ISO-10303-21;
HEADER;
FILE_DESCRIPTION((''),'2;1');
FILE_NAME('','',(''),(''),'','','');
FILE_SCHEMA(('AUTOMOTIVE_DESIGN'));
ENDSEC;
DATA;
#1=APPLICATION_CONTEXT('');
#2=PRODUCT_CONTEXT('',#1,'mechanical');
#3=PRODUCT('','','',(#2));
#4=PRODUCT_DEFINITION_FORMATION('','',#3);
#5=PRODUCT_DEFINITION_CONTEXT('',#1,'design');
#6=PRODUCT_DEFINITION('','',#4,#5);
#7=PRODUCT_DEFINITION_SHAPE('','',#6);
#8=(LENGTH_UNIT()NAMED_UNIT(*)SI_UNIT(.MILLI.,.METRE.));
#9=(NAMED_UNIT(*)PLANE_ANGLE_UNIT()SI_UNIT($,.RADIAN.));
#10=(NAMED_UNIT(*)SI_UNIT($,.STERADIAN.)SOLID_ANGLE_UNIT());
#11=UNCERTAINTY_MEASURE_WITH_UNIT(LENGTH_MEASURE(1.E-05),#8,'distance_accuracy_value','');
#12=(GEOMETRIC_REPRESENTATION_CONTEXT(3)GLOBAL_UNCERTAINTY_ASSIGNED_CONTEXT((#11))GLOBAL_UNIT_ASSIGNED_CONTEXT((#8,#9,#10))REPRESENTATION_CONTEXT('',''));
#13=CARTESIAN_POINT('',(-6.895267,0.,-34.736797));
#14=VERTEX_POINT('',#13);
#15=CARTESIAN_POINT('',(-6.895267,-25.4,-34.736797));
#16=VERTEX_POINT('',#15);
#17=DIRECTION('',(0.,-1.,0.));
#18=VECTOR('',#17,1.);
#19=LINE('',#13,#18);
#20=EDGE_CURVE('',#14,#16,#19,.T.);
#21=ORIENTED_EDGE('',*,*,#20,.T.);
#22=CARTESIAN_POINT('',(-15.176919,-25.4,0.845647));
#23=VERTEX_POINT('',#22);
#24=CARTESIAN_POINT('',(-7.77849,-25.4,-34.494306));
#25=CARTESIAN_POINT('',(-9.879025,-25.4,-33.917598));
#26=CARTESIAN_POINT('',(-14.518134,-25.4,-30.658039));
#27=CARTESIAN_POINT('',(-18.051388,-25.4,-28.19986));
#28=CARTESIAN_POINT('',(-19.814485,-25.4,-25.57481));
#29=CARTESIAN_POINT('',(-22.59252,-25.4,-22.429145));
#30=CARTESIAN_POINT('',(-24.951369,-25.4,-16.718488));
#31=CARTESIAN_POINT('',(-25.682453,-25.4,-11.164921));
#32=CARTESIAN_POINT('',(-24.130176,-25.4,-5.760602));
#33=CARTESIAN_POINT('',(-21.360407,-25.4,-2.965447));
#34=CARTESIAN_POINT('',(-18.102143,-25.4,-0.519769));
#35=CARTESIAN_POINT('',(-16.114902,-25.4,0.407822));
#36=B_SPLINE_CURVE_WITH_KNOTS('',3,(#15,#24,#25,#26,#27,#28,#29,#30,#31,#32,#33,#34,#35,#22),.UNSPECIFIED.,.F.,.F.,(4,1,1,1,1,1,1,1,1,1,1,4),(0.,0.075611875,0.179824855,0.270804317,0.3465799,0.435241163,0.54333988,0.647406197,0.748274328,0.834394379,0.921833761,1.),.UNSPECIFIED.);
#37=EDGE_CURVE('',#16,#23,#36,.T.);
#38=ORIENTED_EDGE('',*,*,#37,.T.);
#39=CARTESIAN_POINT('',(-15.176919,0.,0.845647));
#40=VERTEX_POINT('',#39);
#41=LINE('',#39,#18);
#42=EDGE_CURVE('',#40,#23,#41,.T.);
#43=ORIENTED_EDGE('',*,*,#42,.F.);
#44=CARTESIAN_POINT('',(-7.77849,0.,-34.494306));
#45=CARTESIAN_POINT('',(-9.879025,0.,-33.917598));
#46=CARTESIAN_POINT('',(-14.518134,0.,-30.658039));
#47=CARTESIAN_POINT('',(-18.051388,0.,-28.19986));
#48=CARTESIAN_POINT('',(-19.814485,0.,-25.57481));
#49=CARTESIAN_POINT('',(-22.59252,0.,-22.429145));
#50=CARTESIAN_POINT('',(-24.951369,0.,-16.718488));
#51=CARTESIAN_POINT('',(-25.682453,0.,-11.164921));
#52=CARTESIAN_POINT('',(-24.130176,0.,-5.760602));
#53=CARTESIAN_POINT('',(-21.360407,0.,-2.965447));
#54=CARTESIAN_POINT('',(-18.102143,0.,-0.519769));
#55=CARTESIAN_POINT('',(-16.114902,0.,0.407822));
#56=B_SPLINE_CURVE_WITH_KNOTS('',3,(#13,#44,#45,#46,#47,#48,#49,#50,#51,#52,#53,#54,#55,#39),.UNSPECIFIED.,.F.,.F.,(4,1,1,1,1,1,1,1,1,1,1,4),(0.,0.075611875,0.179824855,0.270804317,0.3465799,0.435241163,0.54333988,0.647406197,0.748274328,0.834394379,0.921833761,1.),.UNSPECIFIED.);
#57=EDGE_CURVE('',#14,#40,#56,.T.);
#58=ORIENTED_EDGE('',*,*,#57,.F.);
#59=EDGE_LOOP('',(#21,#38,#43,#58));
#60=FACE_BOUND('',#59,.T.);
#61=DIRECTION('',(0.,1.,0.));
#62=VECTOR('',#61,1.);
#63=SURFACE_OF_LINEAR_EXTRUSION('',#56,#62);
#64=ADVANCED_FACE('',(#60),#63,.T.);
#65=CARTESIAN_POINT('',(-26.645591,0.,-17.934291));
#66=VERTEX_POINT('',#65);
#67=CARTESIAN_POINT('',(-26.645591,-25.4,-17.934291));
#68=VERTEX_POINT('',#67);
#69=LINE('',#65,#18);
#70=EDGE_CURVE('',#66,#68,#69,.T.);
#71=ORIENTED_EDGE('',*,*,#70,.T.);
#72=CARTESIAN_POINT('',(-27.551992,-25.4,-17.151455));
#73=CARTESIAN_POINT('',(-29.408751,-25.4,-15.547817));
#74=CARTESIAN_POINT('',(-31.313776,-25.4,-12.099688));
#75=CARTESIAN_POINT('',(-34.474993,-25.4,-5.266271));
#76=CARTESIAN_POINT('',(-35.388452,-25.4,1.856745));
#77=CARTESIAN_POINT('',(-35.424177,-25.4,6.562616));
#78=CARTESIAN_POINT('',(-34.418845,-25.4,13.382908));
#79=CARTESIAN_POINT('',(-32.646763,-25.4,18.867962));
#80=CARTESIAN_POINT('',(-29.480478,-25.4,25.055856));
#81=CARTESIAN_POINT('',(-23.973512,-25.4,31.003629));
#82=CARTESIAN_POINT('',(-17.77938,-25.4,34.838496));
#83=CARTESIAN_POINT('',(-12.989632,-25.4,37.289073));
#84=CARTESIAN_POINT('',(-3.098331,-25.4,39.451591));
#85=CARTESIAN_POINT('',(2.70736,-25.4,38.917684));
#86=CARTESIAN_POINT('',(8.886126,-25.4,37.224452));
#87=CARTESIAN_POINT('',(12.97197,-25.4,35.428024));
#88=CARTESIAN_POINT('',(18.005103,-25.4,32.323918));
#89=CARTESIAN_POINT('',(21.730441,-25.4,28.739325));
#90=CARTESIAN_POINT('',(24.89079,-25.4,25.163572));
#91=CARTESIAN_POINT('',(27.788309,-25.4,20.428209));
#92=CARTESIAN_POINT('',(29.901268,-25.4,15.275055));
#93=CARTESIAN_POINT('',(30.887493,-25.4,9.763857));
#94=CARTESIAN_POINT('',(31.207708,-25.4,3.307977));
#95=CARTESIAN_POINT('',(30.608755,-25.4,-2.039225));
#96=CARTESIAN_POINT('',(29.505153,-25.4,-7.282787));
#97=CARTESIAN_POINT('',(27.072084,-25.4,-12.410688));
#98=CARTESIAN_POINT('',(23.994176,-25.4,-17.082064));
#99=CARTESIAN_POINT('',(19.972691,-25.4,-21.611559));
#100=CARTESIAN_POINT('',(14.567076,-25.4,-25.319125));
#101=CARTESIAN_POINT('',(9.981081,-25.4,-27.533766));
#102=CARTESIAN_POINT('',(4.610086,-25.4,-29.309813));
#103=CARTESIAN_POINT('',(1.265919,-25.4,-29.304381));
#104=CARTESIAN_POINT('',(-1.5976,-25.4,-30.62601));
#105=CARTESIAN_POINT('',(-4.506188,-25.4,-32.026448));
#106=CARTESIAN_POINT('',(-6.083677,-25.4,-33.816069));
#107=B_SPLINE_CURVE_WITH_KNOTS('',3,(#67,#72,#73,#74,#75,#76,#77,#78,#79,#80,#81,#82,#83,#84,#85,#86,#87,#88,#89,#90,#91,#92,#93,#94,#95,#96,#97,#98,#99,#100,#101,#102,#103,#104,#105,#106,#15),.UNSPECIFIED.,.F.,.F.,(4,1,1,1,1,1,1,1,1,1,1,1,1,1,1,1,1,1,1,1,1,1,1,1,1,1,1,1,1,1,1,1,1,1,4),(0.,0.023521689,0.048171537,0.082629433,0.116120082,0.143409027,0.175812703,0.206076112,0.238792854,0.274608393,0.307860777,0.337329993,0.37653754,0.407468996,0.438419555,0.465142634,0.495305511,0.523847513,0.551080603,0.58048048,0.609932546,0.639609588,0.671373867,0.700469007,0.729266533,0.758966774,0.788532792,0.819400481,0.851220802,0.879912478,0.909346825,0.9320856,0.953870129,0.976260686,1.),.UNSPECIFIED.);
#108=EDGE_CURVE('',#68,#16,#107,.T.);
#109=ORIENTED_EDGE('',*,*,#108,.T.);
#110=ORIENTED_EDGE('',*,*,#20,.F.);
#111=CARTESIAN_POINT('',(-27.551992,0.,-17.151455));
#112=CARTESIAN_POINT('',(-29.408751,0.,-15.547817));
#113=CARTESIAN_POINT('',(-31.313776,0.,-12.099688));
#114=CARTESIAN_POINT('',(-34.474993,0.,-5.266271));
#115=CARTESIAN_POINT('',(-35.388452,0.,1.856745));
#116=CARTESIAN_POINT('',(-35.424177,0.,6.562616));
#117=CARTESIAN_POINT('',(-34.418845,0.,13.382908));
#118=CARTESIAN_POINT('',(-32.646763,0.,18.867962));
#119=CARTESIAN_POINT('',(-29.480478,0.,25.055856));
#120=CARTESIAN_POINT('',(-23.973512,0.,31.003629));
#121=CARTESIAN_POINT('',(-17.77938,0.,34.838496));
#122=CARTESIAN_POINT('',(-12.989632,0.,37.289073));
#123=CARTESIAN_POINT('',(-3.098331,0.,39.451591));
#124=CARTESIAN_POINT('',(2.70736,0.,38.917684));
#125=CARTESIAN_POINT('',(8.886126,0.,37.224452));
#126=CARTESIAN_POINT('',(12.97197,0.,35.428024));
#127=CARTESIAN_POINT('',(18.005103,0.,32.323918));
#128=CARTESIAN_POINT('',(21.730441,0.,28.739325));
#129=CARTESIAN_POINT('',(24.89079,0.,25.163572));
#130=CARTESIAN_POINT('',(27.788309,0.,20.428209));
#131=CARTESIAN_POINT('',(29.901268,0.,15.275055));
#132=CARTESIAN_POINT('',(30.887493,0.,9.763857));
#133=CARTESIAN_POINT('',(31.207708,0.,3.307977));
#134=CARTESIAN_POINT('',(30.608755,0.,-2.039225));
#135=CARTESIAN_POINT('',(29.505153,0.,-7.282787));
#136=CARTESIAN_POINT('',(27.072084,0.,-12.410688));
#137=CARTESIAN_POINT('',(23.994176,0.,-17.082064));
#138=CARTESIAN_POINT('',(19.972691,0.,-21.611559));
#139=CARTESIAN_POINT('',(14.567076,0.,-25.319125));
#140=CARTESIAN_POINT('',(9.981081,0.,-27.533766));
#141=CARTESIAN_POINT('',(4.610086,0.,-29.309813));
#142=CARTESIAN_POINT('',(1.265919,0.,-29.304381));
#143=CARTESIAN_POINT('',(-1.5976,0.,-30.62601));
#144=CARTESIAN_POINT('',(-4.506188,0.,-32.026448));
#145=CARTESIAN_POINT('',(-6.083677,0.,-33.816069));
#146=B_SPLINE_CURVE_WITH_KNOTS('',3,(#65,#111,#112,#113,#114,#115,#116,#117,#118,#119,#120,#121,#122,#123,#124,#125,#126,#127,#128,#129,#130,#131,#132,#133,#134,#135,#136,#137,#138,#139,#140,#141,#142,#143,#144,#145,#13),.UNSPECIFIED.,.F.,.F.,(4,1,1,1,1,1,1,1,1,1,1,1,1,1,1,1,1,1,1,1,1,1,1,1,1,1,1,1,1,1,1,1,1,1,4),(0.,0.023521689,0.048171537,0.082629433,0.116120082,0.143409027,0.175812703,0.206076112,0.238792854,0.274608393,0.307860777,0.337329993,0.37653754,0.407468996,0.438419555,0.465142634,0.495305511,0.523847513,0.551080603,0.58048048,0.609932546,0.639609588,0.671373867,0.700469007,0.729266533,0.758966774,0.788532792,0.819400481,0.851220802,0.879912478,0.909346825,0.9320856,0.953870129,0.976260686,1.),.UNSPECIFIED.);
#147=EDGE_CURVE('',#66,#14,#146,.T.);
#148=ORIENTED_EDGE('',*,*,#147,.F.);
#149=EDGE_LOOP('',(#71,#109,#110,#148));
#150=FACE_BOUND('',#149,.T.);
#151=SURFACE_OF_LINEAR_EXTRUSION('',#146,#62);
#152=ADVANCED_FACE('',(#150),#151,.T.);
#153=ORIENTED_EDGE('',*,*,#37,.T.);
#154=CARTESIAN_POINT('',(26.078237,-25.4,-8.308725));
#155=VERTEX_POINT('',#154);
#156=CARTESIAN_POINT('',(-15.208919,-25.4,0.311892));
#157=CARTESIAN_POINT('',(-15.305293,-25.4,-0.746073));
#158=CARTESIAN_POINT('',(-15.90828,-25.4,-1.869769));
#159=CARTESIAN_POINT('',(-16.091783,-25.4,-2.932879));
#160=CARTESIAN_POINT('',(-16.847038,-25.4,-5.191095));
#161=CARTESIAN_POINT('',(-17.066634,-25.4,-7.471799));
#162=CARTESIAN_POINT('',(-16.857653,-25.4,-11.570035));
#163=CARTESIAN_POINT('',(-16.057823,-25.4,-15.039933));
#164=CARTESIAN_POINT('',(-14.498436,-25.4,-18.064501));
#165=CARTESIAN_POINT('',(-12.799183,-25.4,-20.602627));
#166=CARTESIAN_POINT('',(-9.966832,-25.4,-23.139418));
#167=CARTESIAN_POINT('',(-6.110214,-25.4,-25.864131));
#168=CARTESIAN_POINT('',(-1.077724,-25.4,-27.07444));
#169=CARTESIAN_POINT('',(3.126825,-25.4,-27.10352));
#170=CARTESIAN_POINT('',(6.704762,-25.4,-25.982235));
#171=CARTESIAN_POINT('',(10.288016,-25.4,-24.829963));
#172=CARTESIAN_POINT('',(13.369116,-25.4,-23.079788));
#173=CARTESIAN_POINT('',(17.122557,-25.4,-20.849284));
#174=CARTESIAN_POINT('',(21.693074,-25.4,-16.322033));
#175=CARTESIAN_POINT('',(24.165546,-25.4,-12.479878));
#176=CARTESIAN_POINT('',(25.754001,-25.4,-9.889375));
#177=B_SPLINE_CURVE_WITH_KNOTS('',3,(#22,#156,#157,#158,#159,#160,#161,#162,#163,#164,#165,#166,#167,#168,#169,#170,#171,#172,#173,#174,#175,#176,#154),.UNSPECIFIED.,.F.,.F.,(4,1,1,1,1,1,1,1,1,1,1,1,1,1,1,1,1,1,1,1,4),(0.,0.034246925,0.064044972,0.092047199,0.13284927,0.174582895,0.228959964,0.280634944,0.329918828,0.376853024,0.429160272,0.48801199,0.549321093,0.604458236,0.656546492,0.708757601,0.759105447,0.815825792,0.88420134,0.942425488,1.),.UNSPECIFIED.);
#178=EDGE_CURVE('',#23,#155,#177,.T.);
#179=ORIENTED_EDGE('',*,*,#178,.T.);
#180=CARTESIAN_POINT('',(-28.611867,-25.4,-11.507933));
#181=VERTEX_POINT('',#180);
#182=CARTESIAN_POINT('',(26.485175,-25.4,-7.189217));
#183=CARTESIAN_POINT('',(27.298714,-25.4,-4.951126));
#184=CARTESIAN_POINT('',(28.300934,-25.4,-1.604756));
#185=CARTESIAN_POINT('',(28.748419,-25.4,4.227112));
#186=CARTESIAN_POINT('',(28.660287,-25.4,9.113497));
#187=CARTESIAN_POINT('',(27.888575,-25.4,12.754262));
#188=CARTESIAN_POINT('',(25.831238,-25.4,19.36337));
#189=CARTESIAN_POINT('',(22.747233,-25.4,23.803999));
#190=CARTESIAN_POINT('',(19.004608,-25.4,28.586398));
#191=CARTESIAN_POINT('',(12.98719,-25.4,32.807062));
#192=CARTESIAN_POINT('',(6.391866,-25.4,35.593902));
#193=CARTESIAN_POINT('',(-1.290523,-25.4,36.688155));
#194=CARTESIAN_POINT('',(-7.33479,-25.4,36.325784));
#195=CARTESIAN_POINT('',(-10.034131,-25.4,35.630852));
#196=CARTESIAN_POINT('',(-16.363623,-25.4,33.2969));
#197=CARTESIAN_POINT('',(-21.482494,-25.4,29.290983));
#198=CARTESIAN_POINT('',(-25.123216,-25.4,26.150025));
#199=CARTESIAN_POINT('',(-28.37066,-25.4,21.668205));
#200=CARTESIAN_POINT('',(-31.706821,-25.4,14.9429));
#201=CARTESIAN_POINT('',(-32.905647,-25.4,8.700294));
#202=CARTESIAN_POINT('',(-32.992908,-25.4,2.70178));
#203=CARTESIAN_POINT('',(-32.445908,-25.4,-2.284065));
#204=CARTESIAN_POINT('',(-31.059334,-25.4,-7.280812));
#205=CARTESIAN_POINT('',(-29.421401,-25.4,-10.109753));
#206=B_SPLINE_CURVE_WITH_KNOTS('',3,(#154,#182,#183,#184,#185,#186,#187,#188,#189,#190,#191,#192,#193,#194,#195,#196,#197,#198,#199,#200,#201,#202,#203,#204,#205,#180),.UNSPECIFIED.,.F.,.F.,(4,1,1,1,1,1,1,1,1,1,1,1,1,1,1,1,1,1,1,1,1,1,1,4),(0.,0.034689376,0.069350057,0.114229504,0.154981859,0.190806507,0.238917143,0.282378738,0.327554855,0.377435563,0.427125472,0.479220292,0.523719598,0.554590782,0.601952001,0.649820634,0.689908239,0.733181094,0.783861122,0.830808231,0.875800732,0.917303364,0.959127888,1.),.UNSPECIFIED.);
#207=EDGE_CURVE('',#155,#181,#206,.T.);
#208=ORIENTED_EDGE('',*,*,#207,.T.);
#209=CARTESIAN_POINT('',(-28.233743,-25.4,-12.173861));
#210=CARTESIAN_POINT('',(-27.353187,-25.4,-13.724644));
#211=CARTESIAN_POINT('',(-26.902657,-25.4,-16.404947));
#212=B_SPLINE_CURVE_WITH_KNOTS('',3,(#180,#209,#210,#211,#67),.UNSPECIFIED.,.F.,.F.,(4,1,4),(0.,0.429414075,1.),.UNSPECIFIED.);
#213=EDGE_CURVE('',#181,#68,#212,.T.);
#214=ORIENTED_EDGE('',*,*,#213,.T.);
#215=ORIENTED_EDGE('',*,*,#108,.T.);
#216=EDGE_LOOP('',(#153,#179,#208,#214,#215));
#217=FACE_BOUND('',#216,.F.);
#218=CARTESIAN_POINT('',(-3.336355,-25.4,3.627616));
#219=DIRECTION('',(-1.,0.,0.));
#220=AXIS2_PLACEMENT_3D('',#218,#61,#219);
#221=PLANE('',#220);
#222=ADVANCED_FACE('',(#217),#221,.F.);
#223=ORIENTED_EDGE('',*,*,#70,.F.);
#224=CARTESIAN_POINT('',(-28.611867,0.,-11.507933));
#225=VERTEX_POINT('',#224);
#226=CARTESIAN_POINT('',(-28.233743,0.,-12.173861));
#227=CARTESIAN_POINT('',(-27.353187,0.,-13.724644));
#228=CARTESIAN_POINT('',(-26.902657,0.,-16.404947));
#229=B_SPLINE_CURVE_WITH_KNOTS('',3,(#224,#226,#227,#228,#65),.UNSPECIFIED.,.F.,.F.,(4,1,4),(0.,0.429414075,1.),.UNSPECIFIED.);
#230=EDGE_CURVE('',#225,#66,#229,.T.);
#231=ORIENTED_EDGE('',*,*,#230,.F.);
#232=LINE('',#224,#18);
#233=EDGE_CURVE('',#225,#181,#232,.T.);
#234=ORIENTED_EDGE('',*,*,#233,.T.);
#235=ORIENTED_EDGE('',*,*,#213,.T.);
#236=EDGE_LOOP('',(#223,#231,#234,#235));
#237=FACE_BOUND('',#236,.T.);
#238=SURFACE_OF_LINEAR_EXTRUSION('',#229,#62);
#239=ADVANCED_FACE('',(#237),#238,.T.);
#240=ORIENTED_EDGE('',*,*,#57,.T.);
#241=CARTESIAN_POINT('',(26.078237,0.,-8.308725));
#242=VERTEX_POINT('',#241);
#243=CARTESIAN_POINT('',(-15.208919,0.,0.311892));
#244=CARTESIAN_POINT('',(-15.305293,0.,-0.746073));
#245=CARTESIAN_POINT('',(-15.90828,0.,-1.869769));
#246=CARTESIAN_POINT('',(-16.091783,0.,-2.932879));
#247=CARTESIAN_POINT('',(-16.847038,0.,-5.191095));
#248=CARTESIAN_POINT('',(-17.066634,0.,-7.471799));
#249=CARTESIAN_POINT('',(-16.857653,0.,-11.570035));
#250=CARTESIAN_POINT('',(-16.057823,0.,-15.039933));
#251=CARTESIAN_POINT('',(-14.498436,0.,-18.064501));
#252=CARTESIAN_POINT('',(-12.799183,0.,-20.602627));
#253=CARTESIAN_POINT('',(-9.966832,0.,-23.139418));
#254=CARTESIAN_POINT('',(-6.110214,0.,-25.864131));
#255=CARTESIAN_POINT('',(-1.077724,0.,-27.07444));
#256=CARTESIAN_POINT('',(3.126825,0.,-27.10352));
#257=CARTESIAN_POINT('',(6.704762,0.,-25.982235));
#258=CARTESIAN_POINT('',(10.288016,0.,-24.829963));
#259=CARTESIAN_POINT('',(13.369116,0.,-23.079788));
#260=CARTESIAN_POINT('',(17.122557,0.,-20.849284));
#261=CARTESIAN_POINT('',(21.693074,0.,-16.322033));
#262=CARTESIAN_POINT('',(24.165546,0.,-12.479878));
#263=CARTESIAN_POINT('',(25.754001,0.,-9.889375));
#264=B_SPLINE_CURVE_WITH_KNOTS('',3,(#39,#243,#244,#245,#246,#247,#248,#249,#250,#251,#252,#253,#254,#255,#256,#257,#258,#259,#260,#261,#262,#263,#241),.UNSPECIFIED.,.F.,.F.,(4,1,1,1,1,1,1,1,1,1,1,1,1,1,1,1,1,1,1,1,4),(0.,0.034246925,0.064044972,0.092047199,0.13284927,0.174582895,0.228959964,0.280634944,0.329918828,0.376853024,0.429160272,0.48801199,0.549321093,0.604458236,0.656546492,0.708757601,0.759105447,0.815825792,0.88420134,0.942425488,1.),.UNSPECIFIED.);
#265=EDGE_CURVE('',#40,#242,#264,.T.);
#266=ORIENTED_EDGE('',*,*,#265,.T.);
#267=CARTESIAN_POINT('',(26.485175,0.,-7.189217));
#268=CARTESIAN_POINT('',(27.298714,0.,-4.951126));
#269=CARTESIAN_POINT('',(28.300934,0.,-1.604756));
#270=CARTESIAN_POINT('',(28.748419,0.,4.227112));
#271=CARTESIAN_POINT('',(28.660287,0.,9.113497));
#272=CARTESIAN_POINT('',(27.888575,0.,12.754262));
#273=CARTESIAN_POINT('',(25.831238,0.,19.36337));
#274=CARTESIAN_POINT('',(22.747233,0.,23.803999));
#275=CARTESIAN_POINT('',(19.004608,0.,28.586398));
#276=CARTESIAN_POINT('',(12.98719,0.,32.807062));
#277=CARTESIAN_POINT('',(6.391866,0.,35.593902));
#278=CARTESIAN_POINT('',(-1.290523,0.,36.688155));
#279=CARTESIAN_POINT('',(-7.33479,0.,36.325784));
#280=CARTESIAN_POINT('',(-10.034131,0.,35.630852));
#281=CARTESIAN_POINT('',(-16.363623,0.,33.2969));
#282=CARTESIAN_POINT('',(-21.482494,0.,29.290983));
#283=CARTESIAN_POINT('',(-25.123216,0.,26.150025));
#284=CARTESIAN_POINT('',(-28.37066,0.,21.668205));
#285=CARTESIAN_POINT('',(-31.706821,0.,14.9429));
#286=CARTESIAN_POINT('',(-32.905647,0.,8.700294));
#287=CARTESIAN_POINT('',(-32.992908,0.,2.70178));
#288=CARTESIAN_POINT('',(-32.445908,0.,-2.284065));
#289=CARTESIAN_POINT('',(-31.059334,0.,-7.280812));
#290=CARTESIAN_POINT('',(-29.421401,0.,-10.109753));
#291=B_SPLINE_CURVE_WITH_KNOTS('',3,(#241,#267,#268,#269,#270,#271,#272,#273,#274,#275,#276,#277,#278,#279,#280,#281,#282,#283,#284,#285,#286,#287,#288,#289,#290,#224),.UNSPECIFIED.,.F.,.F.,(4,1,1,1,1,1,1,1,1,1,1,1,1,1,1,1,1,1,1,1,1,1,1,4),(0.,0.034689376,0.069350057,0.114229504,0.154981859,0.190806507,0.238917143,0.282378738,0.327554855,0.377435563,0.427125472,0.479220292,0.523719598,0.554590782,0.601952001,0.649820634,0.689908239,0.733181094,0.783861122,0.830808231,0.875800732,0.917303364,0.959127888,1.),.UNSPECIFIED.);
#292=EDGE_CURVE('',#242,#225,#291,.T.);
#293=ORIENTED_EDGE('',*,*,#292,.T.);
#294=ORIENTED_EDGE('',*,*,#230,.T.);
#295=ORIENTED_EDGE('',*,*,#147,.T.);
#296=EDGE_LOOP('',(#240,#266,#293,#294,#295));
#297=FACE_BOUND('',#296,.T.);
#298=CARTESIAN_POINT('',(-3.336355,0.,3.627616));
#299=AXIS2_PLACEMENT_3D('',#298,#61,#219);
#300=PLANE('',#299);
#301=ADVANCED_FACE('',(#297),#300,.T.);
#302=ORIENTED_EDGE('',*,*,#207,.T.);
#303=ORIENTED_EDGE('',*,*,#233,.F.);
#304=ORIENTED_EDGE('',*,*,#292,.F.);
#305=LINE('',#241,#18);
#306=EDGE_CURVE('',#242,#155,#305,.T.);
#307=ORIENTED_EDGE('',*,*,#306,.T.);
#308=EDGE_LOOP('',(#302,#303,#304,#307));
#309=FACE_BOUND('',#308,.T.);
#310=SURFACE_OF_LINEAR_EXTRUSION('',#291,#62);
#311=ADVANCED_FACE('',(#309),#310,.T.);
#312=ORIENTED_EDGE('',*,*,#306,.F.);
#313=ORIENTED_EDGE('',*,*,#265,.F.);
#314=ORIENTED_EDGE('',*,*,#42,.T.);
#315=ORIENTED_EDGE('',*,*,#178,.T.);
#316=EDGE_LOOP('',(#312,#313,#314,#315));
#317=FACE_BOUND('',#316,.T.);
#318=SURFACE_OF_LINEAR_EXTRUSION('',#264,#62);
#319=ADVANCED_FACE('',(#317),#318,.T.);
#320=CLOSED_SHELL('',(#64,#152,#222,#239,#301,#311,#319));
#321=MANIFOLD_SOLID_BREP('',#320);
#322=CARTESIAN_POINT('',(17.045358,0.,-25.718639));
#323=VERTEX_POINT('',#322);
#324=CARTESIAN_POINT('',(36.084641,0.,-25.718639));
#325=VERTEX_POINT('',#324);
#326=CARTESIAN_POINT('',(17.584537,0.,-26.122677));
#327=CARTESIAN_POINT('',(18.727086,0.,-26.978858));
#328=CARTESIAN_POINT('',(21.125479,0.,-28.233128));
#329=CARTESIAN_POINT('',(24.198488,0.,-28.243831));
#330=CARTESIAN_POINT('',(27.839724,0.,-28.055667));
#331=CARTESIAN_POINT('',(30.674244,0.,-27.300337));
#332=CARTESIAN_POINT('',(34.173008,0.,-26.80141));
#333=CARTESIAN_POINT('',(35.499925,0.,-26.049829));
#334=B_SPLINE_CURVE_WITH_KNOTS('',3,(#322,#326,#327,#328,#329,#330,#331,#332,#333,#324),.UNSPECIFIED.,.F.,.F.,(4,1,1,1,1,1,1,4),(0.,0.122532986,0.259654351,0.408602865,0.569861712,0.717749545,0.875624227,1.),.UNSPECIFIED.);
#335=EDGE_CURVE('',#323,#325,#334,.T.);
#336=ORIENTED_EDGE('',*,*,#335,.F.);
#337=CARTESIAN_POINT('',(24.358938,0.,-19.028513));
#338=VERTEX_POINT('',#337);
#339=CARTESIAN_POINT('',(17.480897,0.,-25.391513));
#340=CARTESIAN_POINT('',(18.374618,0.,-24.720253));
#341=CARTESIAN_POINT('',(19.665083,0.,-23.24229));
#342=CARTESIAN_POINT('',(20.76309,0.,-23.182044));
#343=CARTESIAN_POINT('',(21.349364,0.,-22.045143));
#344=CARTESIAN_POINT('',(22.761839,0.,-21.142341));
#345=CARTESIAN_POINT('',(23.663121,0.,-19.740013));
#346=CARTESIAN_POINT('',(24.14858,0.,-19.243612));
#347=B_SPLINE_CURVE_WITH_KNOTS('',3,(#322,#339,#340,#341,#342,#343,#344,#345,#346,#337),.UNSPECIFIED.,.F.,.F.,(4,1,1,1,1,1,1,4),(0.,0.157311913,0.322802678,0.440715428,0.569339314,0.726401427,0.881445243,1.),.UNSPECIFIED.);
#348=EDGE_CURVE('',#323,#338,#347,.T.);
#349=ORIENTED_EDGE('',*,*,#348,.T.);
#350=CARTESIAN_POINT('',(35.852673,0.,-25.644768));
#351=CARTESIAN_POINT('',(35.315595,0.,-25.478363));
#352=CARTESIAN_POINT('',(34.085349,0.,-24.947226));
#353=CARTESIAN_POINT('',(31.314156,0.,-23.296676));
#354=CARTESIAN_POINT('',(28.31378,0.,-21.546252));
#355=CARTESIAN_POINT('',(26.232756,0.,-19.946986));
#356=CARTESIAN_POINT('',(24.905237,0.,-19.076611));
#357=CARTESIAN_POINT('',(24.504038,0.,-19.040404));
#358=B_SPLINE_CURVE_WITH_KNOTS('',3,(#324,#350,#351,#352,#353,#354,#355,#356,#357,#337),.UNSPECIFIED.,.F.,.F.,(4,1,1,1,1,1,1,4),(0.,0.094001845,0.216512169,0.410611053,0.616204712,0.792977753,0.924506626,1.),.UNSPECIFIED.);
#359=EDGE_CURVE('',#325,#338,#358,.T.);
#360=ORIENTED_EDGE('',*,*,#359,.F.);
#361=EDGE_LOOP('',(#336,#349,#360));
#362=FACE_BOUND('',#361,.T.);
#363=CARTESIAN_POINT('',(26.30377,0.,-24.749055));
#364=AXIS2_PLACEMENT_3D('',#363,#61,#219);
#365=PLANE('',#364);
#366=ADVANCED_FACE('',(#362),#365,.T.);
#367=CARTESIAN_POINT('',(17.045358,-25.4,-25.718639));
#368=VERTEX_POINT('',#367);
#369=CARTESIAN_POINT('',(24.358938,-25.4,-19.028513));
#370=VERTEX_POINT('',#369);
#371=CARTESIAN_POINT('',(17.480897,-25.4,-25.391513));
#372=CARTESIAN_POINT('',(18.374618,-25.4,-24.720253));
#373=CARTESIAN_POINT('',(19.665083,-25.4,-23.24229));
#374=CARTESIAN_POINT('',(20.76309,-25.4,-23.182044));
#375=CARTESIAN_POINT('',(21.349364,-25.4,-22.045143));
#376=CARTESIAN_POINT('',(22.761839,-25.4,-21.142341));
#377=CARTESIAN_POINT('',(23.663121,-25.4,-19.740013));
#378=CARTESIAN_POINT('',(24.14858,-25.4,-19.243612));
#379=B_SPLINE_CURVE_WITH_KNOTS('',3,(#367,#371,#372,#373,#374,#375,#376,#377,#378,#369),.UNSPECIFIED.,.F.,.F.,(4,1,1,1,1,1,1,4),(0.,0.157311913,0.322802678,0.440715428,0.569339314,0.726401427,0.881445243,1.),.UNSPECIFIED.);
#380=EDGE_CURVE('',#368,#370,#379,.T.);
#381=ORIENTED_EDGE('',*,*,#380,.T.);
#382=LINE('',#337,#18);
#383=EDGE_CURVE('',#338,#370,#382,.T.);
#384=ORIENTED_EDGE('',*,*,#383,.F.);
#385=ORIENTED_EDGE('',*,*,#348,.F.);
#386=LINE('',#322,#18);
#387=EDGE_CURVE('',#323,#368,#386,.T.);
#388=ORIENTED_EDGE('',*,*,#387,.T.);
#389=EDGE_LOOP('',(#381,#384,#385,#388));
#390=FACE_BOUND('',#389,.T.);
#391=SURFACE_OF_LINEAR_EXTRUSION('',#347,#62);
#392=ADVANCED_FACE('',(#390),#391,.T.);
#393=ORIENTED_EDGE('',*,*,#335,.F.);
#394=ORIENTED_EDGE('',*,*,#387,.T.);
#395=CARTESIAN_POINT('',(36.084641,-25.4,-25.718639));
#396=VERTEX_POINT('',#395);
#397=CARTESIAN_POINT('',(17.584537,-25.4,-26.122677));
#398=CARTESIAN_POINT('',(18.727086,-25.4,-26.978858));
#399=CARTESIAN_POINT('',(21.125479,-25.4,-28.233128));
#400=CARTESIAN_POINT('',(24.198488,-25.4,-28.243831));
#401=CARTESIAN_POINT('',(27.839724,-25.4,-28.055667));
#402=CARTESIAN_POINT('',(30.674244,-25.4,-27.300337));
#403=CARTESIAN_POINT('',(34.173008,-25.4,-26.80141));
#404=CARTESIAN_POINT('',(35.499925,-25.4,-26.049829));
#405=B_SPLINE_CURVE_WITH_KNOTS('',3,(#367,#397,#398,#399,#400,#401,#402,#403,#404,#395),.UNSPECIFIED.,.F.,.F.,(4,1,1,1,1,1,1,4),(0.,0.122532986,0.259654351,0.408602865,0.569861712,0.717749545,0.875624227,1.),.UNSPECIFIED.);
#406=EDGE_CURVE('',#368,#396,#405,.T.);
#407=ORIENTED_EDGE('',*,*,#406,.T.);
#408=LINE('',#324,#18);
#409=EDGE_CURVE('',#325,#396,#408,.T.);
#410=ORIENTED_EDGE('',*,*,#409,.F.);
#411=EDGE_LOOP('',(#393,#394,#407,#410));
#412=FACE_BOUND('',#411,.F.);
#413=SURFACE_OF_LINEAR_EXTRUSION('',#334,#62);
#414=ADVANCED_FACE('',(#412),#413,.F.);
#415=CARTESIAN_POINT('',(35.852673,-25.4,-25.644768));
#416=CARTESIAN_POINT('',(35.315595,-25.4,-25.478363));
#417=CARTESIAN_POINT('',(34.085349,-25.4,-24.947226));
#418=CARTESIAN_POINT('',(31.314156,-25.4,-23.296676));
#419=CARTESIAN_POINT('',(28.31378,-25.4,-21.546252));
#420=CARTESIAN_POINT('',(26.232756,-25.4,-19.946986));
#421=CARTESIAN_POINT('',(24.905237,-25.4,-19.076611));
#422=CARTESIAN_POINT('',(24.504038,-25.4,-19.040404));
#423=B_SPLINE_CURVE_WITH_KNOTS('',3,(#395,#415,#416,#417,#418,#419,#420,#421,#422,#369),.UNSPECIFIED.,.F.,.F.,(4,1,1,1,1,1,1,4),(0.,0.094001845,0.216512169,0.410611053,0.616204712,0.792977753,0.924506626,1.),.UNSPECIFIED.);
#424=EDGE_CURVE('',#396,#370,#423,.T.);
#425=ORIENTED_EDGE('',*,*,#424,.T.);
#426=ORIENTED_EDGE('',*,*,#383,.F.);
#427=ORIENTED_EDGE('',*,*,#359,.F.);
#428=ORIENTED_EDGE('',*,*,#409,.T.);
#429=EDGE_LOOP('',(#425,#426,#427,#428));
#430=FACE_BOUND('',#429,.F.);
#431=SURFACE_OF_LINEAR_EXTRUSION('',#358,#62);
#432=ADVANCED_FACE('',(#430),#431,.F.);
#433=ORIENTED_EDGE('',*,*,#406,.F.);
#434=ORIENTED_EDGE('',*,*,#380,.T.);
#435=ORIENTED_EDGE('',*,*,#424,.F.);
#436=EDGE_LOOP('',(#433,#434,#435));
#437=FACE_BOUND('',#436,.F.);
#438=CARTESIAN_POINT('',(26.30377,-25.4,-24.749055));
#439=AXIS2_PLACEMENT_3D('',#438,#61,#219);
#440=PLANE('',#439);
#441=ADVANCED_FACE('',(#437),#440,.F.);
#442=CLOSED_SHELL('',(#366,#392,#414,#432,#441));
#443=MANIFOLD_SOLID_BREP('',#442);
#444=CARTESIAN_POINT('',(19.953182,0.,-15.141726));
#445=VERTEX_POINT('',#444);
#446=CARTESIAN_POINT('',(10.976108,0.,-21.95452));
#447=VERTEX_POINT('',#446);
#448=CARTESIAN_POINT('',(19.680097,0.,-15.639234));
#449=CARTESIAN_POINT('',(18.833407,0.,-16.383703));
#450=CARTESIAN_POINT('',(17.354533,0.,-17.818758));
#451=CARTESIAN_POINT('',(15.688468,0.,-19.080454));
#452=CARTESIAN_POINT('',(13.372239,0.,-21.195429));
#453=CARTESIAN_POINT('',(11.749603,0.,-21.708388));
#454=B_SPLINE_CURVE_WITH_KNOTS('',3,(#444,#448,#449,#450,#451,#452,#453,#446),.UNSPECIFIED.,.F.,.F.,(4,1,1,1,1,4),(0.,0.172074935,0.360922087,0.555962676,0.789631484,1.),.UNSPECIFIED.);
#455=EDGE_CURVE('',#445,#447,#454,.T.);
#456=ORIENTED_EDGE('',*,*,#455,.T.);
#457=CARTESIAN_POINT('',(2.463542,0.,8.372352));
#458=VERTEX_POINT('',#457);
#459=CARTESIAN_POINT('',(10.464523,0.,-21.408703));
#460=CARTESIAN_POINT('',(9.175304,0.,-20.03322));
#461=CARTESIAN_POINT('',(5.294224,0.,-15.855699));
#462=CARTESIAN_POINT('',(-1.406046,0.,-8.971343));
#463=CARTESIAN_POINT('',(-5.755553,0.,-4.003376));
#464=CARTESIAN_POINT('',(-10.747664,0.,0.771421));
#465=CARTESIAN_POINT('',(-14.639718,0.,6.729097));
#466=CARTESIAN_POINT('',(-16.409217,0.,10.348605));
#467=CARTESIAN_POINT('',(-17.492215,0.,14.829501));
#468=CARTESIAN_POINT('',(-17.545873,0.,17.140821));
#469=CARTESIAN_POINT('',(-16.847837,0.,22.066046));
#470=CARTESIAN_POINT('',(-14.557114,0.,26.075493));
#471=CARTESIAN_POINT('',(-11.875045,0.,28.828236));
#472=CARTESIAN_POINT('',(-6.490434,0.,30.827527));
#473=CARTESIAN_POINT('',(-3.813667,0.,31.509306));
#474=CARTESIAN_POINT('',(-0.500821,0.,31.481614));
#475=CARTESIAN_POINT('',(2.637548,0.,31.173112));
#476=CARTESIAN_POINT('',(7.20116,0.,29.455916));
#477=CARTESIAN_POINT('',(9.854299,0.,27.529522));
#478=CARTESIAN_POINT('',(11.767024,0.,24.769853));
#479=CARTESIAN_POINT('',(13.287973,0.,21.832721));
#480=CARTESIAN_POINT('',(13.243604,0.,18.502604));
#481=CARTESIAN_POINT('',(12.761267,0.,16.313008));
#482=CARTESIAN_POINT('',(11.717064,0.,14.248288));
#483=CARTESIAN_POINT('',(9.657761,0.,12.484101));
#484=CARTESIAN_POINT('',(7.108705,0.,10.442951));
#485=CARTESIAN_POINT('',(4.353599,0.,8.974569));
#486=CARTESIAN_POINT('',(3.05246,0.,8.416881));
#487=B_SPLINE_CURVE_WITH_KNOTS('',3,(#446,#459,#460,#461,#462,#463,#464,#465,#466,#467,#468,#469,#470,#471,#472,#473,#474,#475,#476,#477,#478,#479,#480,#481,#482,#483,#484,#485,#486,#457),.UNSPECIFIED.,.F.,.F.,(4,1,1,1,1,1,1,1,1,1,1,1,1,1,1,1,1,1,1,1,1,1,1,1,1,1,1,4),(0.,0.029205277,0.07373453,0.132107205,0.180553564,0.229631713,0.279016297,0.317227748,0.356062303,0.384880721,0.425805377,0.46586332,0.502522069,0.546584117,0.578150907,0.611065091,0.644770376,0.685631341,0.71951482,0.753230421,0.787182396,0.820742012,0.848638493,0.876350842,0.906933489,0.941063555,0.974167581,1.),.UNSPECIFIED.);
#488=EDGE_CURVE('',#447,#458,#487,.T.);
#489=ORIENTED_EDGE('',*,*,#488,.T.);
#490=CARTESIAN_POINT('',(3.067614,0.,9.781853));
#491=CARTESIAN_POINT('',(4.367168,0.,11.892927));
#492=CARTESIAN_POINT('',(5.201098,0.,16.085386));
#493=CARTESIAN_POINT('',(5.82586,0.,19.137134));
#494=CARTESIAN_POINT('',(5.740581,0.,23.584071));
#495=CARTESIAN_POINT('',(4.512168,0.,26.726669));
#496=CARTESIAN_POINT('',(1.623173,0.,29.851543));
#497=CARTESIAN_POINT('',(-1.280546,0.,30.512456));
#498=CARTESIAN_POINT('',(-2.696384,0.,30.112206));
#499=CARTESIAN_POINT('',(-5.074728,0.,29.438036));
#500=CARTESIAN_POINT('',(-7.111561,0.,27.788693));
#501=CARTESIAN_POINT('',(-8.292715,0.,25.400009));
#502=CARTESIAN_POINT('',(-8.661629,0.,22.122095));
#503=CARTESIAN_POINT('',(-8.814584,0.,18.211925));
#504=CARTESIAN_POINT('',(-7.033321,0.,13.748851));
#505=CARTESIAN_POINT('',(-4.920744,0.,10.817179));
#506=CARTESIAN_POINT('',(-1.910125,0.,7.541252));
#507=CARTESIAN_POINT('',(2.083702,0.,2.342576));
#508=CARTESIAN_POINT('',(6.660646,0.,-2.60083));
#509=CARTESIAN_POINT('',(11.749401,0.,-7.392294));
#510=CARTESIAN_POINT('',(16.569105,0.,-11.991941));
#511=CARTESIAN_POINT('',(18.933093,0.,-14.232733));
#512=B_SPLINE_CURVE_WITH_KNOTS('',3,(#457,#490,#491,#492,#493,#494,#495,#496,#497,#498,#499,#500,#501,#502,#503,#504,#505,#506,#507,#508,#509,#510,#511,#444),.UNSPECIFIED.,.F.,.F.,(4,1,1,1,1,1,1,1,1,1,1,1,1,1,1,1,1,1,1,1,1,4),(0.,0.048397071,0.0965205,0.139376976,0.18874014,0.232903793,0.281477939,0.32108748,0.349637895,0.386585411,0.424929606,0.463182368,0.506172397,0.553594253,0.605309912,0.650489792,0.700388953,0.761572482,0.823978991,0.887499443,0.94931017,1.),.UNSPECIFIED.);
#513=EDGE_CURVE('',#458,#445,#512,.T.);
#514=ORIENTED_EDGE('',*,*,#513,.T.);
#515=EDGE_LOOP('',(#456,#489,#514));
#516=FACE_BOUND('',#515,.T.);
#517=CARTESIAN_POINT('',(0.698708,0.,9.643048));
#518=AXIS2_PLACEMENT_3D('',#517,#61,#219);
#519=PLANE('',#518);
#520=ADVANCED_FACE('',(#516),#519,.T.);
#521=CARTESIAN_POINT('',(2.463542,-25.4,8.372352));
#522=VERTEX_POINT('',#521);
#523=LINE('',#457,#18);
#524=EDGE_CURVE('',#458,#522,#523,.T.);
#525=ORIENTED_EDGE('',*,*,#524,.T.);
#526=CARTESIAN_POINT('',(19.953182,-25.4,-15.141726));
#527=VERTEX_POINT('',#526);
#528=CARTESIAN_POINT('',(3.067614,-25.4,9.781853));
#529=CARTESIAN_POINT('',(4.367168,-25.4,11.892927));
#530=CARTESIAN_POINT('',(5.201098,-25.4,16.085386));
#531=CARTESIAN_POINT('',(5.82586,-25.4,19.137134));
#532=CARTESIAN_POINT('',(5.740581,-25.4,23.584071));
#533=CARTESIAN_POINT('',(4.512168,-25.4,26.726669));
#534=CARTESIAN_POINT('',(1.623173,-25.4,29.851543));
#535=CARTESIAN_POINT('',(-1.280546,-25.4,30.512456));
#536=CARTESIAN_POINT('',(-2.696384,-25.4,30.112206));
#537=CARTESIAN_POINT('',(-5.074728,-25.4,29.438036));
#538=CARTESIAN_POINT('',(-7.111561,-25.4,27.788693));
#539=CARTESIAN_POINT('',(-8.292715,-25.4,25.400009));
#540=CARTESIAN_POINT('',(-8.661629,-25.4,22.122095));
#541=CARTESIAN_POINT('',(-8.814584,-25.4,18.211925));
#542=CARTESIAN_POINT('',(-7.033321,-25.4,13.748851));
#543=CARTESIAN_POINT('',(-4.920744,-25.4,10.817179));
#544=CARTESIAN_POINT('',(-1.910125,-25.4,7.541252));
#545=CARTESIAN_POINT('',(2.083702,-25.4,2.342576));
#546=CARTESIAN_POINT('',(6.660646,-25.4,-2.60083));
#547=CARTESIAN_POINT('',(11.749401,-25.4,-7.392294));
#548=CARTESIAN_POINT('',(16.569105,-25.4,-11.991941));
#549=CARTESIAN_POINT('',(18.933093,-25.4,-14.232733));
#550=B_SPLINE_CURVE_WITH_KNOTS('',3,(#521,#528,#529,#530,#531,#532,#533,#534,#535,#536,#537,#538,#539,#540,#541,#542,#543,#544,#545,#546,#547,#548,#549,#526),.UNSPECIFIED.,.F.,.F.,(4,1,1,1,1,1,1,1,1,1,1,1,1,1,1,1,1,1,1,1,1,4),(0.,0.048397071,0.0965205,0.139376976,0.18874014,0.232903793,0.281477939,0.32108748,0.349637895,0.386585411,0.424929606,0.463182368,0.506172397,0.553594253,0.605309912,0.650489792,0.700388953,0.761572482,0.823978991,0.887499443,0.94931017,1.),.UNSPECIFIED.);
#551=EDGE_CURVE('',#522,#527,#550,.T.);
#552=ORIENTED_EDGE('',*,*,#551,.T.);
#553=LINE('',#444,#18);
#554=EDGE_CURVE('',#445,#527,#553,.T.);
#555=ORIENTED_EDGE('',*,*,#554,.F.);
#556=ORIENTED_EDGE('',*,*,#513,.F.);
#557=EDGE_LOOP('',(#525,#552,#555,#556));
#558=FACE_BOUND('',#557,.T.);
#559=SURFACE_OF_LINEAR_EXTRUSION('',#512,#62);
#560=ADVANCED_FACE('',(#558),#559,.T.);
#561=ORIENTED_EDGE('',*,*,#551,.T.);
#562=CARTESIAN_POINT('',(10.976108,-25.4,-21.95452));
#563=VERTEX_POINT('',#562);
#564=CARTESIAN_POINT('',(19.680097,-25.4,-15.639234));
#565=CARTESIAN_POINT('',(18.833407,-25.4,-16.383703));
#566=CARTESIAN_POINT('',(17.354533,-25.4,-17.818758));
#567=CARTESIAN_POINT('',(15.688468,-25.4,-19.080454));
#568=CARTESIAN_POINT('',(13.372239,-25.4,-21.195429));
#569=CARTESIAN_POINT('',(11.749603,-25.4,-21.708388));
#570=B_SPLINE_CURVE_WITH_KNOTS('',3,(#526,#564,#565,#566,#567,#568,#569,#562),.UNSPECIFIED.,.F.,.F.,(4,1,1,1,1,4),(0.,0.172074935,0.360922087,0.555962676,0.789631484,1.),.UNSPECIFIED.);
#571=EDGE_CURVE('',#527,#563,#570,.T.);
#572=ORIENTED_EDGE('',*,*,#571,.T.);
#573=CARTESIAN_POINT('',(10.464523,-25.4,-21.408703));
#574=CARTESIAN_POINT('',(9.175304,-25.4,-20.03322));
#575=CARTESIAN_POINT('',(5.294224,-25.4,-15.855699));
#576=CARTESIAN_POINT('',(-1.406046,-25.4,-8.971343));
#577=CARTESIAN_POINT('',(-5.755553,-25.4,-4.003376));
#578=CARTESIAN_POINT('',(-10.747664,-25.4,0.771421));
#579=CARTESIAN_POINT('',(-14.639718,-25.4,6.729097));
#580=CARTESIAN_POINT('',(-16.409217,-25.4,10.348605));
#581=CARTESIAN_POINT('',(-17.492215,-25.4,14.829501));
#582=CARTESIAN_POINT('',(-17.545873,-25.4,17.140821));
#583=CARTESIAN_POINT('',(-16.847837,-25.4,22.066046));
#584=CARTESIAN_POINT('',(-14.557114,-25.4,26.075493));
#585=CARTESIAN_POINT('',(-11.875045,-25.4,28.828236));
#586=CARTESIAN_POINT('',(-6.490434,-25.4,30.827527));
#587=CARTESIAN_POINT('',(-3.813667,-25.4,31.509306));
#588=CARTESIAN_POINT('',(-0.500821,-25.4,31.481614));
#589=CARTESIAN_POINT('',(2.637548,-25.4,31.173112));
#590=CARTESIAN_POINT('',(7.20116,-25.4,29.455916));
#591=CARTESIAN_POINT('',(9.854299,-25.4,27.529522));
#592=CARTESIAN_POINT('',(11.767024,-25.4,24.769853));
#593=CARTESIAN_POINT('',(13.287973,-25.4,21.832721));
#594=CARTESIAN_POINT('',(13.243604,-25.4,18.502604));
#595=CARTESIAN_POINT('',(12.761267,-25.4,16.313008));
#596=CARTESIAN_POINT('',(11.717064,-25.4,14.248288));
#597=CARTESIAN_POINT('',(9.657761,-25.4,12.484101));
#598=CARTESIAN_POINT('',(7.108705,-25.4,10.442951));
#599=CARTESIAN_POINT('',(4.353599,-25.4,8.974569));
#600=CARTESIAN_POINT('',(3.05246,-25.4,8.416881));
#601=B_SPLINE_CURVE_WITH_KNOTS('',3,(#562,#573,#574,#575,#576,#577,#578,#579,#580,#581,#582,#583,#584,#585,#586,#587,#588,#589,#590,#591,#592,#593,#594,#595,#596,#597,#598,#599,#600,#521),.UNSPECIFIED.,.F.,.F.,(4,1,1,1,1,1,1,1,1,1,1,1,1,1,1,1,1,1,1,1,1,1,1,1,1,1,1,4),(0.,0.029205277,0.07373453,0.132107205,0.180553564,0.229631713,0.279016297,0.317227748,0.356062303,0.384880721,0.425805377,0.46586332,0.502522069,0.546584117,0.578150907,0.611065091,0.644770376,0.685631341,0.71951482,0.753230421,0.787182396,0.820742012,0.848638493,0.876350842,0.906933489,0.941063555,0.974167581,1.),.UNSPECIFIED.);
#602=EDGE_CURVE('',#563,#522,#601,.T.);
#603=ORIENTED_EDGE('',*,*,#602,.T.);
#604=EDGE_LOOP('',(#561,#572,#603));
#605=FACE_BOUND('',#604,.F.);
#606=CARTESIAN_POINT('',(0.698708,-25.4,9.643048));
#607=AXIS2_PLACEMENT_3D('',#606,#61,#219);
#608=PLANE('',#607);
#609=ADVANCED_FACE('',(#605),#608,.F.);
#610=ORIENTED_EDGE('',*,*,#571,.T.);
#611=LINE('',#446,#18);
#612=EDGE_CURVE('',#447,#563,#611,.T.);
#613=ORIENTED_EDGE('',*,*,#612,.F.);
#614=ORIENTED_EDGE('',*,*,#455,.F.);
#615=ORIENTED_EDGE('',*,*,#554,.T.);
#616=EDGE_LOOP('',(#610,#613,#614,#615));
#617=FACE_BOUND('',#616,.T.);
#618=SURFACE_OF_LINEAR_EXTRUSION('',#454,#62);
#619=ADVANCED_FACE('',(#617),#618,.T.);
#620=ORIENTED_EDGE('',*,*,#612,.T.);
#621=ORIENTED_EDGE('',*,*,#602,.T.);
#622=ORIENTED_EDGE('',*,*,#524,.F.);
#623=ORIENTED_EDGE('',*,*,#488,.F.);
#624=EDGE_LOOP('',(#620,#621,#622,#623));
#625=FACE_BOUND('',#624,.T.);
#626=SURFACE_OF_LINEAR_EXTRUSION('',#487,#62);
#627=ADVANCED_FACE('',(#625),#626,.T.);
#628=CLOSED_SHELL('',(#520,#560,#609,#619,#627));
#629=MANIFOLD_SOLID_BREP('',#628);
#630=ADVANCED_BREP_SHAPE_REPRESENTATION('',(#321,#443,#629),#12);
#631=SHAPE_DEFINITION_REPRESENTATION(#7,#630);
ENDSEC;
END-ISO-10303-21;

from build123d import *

# Parameters (mm, degrees)
F1_DEPTH = 25.4


with BuildPart() as f1:
    # F0 (on Front) → F1 (new body)
    with BuildSketch(Plane.XZ):
        with BuildLine():
            add(Edge.make_bspline(
                [(2.463541925, 8.3723515272), (3.0676136923, 9.7818525501), (4.3671677442, 11.892926529), (5.2010983043, 16.0853860311), (5.8258600309, 19.1371336326), (5.7405808481, 23.5840708822), (4.5121681484, 26.7266689946), (1.6231726318, 29.851543456), (-1.2805464463, 30.5124561066), (-2.6963839092, 30.1122057702), (-5.0747281015, 29.4380363075), (-7.111561136, 27.7886927455), (-8.2927145422, 25.4000091626), (-8.6616287392, 22.1220952402), (-8.8145836433, 18.2119253345), (-7.0333206099, 13.7488508001), (-4.9207444065, 10.8171792659), (-1.9101248092, 7.5412515808), (2.0837018417, 2.342575648), (6.6606458585, -2.6008299668), (11.7494012071, -7.3922939586), (16.5691051976, -11.9919411246), (18.9330932422, -14.232733117), (19.9531819671, -15.1417255402)],
                knots=[0, 0, 0, 0, 0.0483970712, 0.0965205002, 0.1393769758, 0.1887401399, 0.2329037932, 0.2814779393, 0.3210874797, 0.3496378947, 0.3865854112, 0.4249296057, 0.4631823675, 0.5061723971, 0.5535942526, 0.6053099119, 0.6504897924, 0.7003889531, 0.7615724815, 0.823978991, 0.887499443, 0.94931017, 1, 1, 1, 1], degree=3))
            add(Edge.make_bspline(
                [(10.9761077911, -21.9545196742), (10.4645231907, -21.4087028366), (9.1753042647, -20.0332200193), (5.2942240781, -15.8556989146), (-1.4060464966, -8.9713431366), (-5.7555530447, -4.003376467), (-10.7476640453, 0.7714213829), (-14.6397176738, 6.7290972971), (-16.4092168255, 10.3486046145), (-17.4922150373, 14.8295011127), (-17.545873182, 17.1408212257), (-16.8478365477, 22.0660464051), (-14.5571142498, 26.0754930866), (-11.8750449388, 28.8282361064), (-6.4904336691, 30.8275273724), (-3.8136671733, 31.5093061965), (-0.5008207572, 31.4816141463), (2.6375481544, 31.1731122738), (7.2011599554, 29.455915854), (9.854299106, 27.5295217272), (11.7670243021, 24.7698532464), (13.2879733698, 21.8327210194), (13.2436042543, 18.5026038539), (12.7612670126, 16.3130075621), (11.7170638612, 14.2482883303), (9.6577608715, 12.4841012773), (7.1087047608, 10.4429512498), (4.3535992204, 8.9745688528), (3.0524597029, 8.4168809428), (2.463541925, 8.3723515272)],
                knots=[0, 0, 0, 0, 0.0292052771, 0.0737345302, 0.1321072053, 0.1805535636, 0.2296317133, 0.2790162974, 0.3172277484, 0.3560623028, 0.3848807211, 0.4258053771, 0.4658633198, 0.5025220686, 0.5465841165, 0.5781509071, 0.6110650914, 0.6447703763, 0.6856313406, 0.7195148196, 0.7532304215, 0.7871823964, 0.8207420119, 0.8486384926, 0.8763508424, 0.9069334892, 0.9410635546, 0.9741675812, 1, 1, 1, 1], degree=3))
            add(Edge.make_bspline(
                [(19.9531819671, -15.1417255402), (19.6800973124, -15.6392343509), (18.833406512, -16.3837025484), (17.3545333352, -17.8187579824), (15.6884676933, -19.08045354), (13.3722392663, -21.1954288519), (11.7496033439, -21.7083883466), (10.9761077911, -21.9545196742)],
                knots=[0, 0, 0, 0, 0.1720749351, 0.3609220872, 0.5559626762, 0.7896314843, 1, 1, 1, 1], degree=3))
        make_face()
    extrude(amount=F1_DEPTH)


with BuildPart() as f1b:
    # F0 (on Front) → F1, piece 2 (new body)
    with BuildSketch(Plane.XZ):
        with BuildLine():
            add(Edge.make_bspline(
                [(-15.1769192889, 0.8456473006), (-15.2089187711, 0.3118924826), (-15.3052930303, -0.7460725382), (-15.9082799257, -1.8697691827), (-16.0917826953, -2.9328788085), (-16.8470375758, -5.1910953519), (-17.0666342745, -7.4717986091), (-16.8576528208, -11.5700348184), (-16.0578233444, -15.0399326404), (-14.4984363963, -18.0645009865), (-12.7991827173, -20.6026270594), (-9.9668320644, -23.139418266), (-6.1102138645, -25.8641312637), (-1.0777243637, -27.0744401451), (3.1268249339, -27.1035201008), (6.7047618844, -25.9822351744), (10.2880164231, -24.8299630443), (13.3691161899, -23.0797876677), (17.1225572412, -20.8492841988), (21.6930736222, -16.3220326665), (24.1655460978, -12.4798782858), (25.7540009347, -9.8893749854), (26.0782372206, -8.3087254316)],
                knots=[0, 0, 0, 0, 0.0342469252, 0.064044972, 0.0920471995, 0.1328492698, 0.1745828953, 0.2289599642, 0.2806349438, 0.3299188275, 0.3768530241, 0.4291602719, 0.4880119896, 0.5493210927, 0.6044582365, 0.6565464917, 0.7087576012, 0.7591054472, 0.8158257924, 0.8842013402, 0.9424254881, 1, 1, 1, 1], degree=3))
            add(Edge.make_bspline(
                [(-6.8952674046, -34.7367972136), (-7.7784901308, -34.4943060237), (-9.8790252318, -33.9175984266), (-14.5181337397, -30.6580386371), (-18.0513883522, -28.1998595907), (-19.814484852, -25.5748098366), (-22.5925198622, -22.4291447836), (-24.9513693835, -16.7184882229), (-25.6824530003, -11.1649209272), (-24.1301755154, -5.7606024486), (-21.3604073579, -2.9654468893), (-18.1021432901, -0.519769346), (-16.1149018752, 0.4078220137), (-15.1769192889, 0.8456473006)],
                knots=[0, 0, 0, 0, 0.0756118754, 0.1798248546, 0.2708043166, 0.3465798998, 0.4352411625, 0.54333988, 0.647406197, 0.7482743276, 0.8343943795, 0.9218337606, 1, 1, 1, 1], degree=3))
            add(Edge.make_bspline(
                [(-26.6455914825, -17.9342906922), (-27.5519918359, -17.1514548166), (-29.4087508033, -15.5478173878), (-31.3137758961, -12.0996878026), (-34.4749929369, -5.2662712226), (-35.3884521482, 1.8567449036), (-35.4241770965, 6.5626158322), (-34.4188452001, 13.382908257), (-32.6467631032, 18.8679620305), (-29.4804782439, 25.0558563545), (-23.9735124988, 31.003628773), (-17.7793795552, 34.8384957744), (-12.9896322572, 37.2890732175), (-3.0983314603, 39.4515905089), (2.7073597846, 38.9176841373), (8.8861264193, 37.2244522333), (12.9719700615, 35.4280239838), (18.0051028082, 32.3239175544), (21.7304406229, 28.7393246459), (24.8907899728, 25.1635720533), (27.7883090323, 20.4282086103), (29.9012678669, 15.2750554951), (30.8874926248, 9.7638569429), (31.2077077221, 3.3079774167), (30.6087551014, -2.0392249883), (29.5051531692, -7.2827872907), (27.0720837092, -12.4106878976), (23.9941762193, -17.0820644973), (19.9726907913, -21.6115585407), (14.5670755067, -25.3191253434), (9.9810805498, -27.5337655684), (4.6100856083, -29.3098133896), (1.2659192283, -29.3043806181), (-1.5975999211, -30.6260095611), (-4.5061881294, -32.0264480867), (-6.0836769286, -33.8160687008), (-6.8952674046, -34.7367972136)],
                knots=[0, 0, 0, 0, 0.023521689, 0.0481715373, 0.0826294334, 0.116120082, 0.143409027, 0.1758127025, 0.2060761121, 0.238792854, 0.2746083935, 0.307860777, 0.3373299925, 0.3765375396, 0.4074689958, 0.4384195552, 0.4651426341, 0.4953055109, 0.5238475133, 0.551080603, 0.5804804798, 0.6099325462, 0.639609588, 0.6713738671, 0.7004690074, 0.7292665327, 0.7589667744, 0.788532792, 0.8194004806, 0.8512208021, 0.8799124783, 0.9093468252, 0.9320856001, 0.9538701294, 0.9762606855, 1, 1, 1, 1], degree=3))
            add(Edge.make_bspline(
                [(-28.6118667573, -11.507933028), (-28.2337432982, -12.1738611482), (-27.3531865554, -13.7246443177), (-26.9026571946, -16.40494745), (-26.6455914825, -17.9342906922)],
                knots=[0, 0, 0, 0, 0.4294140749, 1, 1, 1, 1], degree=3))
            add(Edge.make_bspline(
                [(26.0782372206, -8.3087254316), (26.4851749329, -7.1892168521), (27.2987137409, -4.9511257444), (28.3009339261, -1.6047558661), (28.7484193728, 4.2271115192), (28.6602867557, 9.1134974542), (27.888575258, 12.7542619173), (25.8312382649, 19.3633696199), (22.747232905, 23.803999019), (19.0046084396, 28.5863979267), (12.9871896662, 32.8070623959), (6.3918656534, 35.5939019769), (-1.2905231775, 36.6881552202), (-7.3347899381, 36.3257835791), (-10.0341306315, 35.6308522305), (-16.3636229066, 33.2969003385), (-21.4824939681, 29.2909825069), (-25.1232156112, 26.1500249515), (-28.3706597546, 21.6682054764), (-31.7068208859, 14.9429001983), (-32.9056471623, 8.7002942271), (-32.992908297, 2.7017803774), (-32.445908321, -2.284064651), (-31.0593338261, -7.2808121251), (-29.4214011281, -10.109752965), (-28.6118667573, -11.507933028)],
                knots=[0, 0, 0, 0, 0.0346893758, 0.0693500566, 0.1142295043, 0.1549818585, 0.1908065072, 0.2389171427, 0.2823787376, 0.3275548552, 0.3774355629, 0.4271254723, 0.4792202924, 0.5237195984, 0.5545907817, 0.6019520012, 0.6498206337, 0.6899082392, 0.7331810944, 0.7838611217, 0.8308082314, 0.8758007317, 0.9173033638, 0.9591278876, 1, 1, 1, 1], degree=3))
        make_face()
    extrude(amount=F1_DEPTH)


with BuildPart() as f1c:
    # F0 (on Front) → F1, piece 3 (new body)
    with BuildSketch(Plane.XZ):
        with BuildLine():
            add(Edge.make_bspline(
                [(17.0453581959, -25.7186386734), (17.4808967976, -25.3915127746), (18.3746182205, -24.7202532751), (19.6650826368, -23.2422899138), (20.7630903817, -23.1820441182), (21.3493637514, -22.0451429132), (22.7618394615, -21.1423413976), (23.6631206853, -19.7400126892), (24.1485800138, -19.2436115363), (24.3589375168, -19.028512761)],
                knots=[0, 0, 0, 0, 0.1573119132, 0.3228026778, 0.4407154281, 0.5693393142, 0.7264014274, 0.8814452433, 1, 1, 1, 1], degree=3))
            add(Edge.make_bspline(
                [(17.0453581959, -25.7186386734), (17.5845365209, -26.1226772692), (18.727085993, -26.9788579853), (21.1254791855, -28.2331281658), (24.1984876245, -28.2438307179), (27.8397236682, -28.0556672535), (30.6742439901, -27.3003374681), (34.1730077208, -26.8014097507), (35.4999248272, -26.0498285493), (36.0846407712, -25.7186386734)],
                knots=[0, 0, 0, 0, 0.1225329857, 0.2596543511, 0.4086028647, 0.5698617117, 0.717749545, 0.8756242267, 1, 1, 1, 1], degree=3))
            add(Edge.make_bspline(
                [(36.0846407712, -25.7186386734), (35.8526733935, -25.6447684826), (35.3155946761, -25.478362915), (34.0853493267, -24.947225651), (31.314156039, -23.2966764066), (28.313779562, -21.546252274), (26.2327560016, -19.9469863204), (24.9052367081, -19.0766109163), (24.5040379353, -19.0404036781), (24.3589375168, -19.028512761)],
                knots=[0, 0, 0, 0, 0.0940018448, 0.2165121695, 0.4106110534, 0.6162047124, 0.792977753, 0.9245066263, 1, 1, 1, 1], degree=3))
        make_face()
    extrude(amount=F1_DEPTH)


solid = Compound([f1.part, f1b.part, f1c.part])
